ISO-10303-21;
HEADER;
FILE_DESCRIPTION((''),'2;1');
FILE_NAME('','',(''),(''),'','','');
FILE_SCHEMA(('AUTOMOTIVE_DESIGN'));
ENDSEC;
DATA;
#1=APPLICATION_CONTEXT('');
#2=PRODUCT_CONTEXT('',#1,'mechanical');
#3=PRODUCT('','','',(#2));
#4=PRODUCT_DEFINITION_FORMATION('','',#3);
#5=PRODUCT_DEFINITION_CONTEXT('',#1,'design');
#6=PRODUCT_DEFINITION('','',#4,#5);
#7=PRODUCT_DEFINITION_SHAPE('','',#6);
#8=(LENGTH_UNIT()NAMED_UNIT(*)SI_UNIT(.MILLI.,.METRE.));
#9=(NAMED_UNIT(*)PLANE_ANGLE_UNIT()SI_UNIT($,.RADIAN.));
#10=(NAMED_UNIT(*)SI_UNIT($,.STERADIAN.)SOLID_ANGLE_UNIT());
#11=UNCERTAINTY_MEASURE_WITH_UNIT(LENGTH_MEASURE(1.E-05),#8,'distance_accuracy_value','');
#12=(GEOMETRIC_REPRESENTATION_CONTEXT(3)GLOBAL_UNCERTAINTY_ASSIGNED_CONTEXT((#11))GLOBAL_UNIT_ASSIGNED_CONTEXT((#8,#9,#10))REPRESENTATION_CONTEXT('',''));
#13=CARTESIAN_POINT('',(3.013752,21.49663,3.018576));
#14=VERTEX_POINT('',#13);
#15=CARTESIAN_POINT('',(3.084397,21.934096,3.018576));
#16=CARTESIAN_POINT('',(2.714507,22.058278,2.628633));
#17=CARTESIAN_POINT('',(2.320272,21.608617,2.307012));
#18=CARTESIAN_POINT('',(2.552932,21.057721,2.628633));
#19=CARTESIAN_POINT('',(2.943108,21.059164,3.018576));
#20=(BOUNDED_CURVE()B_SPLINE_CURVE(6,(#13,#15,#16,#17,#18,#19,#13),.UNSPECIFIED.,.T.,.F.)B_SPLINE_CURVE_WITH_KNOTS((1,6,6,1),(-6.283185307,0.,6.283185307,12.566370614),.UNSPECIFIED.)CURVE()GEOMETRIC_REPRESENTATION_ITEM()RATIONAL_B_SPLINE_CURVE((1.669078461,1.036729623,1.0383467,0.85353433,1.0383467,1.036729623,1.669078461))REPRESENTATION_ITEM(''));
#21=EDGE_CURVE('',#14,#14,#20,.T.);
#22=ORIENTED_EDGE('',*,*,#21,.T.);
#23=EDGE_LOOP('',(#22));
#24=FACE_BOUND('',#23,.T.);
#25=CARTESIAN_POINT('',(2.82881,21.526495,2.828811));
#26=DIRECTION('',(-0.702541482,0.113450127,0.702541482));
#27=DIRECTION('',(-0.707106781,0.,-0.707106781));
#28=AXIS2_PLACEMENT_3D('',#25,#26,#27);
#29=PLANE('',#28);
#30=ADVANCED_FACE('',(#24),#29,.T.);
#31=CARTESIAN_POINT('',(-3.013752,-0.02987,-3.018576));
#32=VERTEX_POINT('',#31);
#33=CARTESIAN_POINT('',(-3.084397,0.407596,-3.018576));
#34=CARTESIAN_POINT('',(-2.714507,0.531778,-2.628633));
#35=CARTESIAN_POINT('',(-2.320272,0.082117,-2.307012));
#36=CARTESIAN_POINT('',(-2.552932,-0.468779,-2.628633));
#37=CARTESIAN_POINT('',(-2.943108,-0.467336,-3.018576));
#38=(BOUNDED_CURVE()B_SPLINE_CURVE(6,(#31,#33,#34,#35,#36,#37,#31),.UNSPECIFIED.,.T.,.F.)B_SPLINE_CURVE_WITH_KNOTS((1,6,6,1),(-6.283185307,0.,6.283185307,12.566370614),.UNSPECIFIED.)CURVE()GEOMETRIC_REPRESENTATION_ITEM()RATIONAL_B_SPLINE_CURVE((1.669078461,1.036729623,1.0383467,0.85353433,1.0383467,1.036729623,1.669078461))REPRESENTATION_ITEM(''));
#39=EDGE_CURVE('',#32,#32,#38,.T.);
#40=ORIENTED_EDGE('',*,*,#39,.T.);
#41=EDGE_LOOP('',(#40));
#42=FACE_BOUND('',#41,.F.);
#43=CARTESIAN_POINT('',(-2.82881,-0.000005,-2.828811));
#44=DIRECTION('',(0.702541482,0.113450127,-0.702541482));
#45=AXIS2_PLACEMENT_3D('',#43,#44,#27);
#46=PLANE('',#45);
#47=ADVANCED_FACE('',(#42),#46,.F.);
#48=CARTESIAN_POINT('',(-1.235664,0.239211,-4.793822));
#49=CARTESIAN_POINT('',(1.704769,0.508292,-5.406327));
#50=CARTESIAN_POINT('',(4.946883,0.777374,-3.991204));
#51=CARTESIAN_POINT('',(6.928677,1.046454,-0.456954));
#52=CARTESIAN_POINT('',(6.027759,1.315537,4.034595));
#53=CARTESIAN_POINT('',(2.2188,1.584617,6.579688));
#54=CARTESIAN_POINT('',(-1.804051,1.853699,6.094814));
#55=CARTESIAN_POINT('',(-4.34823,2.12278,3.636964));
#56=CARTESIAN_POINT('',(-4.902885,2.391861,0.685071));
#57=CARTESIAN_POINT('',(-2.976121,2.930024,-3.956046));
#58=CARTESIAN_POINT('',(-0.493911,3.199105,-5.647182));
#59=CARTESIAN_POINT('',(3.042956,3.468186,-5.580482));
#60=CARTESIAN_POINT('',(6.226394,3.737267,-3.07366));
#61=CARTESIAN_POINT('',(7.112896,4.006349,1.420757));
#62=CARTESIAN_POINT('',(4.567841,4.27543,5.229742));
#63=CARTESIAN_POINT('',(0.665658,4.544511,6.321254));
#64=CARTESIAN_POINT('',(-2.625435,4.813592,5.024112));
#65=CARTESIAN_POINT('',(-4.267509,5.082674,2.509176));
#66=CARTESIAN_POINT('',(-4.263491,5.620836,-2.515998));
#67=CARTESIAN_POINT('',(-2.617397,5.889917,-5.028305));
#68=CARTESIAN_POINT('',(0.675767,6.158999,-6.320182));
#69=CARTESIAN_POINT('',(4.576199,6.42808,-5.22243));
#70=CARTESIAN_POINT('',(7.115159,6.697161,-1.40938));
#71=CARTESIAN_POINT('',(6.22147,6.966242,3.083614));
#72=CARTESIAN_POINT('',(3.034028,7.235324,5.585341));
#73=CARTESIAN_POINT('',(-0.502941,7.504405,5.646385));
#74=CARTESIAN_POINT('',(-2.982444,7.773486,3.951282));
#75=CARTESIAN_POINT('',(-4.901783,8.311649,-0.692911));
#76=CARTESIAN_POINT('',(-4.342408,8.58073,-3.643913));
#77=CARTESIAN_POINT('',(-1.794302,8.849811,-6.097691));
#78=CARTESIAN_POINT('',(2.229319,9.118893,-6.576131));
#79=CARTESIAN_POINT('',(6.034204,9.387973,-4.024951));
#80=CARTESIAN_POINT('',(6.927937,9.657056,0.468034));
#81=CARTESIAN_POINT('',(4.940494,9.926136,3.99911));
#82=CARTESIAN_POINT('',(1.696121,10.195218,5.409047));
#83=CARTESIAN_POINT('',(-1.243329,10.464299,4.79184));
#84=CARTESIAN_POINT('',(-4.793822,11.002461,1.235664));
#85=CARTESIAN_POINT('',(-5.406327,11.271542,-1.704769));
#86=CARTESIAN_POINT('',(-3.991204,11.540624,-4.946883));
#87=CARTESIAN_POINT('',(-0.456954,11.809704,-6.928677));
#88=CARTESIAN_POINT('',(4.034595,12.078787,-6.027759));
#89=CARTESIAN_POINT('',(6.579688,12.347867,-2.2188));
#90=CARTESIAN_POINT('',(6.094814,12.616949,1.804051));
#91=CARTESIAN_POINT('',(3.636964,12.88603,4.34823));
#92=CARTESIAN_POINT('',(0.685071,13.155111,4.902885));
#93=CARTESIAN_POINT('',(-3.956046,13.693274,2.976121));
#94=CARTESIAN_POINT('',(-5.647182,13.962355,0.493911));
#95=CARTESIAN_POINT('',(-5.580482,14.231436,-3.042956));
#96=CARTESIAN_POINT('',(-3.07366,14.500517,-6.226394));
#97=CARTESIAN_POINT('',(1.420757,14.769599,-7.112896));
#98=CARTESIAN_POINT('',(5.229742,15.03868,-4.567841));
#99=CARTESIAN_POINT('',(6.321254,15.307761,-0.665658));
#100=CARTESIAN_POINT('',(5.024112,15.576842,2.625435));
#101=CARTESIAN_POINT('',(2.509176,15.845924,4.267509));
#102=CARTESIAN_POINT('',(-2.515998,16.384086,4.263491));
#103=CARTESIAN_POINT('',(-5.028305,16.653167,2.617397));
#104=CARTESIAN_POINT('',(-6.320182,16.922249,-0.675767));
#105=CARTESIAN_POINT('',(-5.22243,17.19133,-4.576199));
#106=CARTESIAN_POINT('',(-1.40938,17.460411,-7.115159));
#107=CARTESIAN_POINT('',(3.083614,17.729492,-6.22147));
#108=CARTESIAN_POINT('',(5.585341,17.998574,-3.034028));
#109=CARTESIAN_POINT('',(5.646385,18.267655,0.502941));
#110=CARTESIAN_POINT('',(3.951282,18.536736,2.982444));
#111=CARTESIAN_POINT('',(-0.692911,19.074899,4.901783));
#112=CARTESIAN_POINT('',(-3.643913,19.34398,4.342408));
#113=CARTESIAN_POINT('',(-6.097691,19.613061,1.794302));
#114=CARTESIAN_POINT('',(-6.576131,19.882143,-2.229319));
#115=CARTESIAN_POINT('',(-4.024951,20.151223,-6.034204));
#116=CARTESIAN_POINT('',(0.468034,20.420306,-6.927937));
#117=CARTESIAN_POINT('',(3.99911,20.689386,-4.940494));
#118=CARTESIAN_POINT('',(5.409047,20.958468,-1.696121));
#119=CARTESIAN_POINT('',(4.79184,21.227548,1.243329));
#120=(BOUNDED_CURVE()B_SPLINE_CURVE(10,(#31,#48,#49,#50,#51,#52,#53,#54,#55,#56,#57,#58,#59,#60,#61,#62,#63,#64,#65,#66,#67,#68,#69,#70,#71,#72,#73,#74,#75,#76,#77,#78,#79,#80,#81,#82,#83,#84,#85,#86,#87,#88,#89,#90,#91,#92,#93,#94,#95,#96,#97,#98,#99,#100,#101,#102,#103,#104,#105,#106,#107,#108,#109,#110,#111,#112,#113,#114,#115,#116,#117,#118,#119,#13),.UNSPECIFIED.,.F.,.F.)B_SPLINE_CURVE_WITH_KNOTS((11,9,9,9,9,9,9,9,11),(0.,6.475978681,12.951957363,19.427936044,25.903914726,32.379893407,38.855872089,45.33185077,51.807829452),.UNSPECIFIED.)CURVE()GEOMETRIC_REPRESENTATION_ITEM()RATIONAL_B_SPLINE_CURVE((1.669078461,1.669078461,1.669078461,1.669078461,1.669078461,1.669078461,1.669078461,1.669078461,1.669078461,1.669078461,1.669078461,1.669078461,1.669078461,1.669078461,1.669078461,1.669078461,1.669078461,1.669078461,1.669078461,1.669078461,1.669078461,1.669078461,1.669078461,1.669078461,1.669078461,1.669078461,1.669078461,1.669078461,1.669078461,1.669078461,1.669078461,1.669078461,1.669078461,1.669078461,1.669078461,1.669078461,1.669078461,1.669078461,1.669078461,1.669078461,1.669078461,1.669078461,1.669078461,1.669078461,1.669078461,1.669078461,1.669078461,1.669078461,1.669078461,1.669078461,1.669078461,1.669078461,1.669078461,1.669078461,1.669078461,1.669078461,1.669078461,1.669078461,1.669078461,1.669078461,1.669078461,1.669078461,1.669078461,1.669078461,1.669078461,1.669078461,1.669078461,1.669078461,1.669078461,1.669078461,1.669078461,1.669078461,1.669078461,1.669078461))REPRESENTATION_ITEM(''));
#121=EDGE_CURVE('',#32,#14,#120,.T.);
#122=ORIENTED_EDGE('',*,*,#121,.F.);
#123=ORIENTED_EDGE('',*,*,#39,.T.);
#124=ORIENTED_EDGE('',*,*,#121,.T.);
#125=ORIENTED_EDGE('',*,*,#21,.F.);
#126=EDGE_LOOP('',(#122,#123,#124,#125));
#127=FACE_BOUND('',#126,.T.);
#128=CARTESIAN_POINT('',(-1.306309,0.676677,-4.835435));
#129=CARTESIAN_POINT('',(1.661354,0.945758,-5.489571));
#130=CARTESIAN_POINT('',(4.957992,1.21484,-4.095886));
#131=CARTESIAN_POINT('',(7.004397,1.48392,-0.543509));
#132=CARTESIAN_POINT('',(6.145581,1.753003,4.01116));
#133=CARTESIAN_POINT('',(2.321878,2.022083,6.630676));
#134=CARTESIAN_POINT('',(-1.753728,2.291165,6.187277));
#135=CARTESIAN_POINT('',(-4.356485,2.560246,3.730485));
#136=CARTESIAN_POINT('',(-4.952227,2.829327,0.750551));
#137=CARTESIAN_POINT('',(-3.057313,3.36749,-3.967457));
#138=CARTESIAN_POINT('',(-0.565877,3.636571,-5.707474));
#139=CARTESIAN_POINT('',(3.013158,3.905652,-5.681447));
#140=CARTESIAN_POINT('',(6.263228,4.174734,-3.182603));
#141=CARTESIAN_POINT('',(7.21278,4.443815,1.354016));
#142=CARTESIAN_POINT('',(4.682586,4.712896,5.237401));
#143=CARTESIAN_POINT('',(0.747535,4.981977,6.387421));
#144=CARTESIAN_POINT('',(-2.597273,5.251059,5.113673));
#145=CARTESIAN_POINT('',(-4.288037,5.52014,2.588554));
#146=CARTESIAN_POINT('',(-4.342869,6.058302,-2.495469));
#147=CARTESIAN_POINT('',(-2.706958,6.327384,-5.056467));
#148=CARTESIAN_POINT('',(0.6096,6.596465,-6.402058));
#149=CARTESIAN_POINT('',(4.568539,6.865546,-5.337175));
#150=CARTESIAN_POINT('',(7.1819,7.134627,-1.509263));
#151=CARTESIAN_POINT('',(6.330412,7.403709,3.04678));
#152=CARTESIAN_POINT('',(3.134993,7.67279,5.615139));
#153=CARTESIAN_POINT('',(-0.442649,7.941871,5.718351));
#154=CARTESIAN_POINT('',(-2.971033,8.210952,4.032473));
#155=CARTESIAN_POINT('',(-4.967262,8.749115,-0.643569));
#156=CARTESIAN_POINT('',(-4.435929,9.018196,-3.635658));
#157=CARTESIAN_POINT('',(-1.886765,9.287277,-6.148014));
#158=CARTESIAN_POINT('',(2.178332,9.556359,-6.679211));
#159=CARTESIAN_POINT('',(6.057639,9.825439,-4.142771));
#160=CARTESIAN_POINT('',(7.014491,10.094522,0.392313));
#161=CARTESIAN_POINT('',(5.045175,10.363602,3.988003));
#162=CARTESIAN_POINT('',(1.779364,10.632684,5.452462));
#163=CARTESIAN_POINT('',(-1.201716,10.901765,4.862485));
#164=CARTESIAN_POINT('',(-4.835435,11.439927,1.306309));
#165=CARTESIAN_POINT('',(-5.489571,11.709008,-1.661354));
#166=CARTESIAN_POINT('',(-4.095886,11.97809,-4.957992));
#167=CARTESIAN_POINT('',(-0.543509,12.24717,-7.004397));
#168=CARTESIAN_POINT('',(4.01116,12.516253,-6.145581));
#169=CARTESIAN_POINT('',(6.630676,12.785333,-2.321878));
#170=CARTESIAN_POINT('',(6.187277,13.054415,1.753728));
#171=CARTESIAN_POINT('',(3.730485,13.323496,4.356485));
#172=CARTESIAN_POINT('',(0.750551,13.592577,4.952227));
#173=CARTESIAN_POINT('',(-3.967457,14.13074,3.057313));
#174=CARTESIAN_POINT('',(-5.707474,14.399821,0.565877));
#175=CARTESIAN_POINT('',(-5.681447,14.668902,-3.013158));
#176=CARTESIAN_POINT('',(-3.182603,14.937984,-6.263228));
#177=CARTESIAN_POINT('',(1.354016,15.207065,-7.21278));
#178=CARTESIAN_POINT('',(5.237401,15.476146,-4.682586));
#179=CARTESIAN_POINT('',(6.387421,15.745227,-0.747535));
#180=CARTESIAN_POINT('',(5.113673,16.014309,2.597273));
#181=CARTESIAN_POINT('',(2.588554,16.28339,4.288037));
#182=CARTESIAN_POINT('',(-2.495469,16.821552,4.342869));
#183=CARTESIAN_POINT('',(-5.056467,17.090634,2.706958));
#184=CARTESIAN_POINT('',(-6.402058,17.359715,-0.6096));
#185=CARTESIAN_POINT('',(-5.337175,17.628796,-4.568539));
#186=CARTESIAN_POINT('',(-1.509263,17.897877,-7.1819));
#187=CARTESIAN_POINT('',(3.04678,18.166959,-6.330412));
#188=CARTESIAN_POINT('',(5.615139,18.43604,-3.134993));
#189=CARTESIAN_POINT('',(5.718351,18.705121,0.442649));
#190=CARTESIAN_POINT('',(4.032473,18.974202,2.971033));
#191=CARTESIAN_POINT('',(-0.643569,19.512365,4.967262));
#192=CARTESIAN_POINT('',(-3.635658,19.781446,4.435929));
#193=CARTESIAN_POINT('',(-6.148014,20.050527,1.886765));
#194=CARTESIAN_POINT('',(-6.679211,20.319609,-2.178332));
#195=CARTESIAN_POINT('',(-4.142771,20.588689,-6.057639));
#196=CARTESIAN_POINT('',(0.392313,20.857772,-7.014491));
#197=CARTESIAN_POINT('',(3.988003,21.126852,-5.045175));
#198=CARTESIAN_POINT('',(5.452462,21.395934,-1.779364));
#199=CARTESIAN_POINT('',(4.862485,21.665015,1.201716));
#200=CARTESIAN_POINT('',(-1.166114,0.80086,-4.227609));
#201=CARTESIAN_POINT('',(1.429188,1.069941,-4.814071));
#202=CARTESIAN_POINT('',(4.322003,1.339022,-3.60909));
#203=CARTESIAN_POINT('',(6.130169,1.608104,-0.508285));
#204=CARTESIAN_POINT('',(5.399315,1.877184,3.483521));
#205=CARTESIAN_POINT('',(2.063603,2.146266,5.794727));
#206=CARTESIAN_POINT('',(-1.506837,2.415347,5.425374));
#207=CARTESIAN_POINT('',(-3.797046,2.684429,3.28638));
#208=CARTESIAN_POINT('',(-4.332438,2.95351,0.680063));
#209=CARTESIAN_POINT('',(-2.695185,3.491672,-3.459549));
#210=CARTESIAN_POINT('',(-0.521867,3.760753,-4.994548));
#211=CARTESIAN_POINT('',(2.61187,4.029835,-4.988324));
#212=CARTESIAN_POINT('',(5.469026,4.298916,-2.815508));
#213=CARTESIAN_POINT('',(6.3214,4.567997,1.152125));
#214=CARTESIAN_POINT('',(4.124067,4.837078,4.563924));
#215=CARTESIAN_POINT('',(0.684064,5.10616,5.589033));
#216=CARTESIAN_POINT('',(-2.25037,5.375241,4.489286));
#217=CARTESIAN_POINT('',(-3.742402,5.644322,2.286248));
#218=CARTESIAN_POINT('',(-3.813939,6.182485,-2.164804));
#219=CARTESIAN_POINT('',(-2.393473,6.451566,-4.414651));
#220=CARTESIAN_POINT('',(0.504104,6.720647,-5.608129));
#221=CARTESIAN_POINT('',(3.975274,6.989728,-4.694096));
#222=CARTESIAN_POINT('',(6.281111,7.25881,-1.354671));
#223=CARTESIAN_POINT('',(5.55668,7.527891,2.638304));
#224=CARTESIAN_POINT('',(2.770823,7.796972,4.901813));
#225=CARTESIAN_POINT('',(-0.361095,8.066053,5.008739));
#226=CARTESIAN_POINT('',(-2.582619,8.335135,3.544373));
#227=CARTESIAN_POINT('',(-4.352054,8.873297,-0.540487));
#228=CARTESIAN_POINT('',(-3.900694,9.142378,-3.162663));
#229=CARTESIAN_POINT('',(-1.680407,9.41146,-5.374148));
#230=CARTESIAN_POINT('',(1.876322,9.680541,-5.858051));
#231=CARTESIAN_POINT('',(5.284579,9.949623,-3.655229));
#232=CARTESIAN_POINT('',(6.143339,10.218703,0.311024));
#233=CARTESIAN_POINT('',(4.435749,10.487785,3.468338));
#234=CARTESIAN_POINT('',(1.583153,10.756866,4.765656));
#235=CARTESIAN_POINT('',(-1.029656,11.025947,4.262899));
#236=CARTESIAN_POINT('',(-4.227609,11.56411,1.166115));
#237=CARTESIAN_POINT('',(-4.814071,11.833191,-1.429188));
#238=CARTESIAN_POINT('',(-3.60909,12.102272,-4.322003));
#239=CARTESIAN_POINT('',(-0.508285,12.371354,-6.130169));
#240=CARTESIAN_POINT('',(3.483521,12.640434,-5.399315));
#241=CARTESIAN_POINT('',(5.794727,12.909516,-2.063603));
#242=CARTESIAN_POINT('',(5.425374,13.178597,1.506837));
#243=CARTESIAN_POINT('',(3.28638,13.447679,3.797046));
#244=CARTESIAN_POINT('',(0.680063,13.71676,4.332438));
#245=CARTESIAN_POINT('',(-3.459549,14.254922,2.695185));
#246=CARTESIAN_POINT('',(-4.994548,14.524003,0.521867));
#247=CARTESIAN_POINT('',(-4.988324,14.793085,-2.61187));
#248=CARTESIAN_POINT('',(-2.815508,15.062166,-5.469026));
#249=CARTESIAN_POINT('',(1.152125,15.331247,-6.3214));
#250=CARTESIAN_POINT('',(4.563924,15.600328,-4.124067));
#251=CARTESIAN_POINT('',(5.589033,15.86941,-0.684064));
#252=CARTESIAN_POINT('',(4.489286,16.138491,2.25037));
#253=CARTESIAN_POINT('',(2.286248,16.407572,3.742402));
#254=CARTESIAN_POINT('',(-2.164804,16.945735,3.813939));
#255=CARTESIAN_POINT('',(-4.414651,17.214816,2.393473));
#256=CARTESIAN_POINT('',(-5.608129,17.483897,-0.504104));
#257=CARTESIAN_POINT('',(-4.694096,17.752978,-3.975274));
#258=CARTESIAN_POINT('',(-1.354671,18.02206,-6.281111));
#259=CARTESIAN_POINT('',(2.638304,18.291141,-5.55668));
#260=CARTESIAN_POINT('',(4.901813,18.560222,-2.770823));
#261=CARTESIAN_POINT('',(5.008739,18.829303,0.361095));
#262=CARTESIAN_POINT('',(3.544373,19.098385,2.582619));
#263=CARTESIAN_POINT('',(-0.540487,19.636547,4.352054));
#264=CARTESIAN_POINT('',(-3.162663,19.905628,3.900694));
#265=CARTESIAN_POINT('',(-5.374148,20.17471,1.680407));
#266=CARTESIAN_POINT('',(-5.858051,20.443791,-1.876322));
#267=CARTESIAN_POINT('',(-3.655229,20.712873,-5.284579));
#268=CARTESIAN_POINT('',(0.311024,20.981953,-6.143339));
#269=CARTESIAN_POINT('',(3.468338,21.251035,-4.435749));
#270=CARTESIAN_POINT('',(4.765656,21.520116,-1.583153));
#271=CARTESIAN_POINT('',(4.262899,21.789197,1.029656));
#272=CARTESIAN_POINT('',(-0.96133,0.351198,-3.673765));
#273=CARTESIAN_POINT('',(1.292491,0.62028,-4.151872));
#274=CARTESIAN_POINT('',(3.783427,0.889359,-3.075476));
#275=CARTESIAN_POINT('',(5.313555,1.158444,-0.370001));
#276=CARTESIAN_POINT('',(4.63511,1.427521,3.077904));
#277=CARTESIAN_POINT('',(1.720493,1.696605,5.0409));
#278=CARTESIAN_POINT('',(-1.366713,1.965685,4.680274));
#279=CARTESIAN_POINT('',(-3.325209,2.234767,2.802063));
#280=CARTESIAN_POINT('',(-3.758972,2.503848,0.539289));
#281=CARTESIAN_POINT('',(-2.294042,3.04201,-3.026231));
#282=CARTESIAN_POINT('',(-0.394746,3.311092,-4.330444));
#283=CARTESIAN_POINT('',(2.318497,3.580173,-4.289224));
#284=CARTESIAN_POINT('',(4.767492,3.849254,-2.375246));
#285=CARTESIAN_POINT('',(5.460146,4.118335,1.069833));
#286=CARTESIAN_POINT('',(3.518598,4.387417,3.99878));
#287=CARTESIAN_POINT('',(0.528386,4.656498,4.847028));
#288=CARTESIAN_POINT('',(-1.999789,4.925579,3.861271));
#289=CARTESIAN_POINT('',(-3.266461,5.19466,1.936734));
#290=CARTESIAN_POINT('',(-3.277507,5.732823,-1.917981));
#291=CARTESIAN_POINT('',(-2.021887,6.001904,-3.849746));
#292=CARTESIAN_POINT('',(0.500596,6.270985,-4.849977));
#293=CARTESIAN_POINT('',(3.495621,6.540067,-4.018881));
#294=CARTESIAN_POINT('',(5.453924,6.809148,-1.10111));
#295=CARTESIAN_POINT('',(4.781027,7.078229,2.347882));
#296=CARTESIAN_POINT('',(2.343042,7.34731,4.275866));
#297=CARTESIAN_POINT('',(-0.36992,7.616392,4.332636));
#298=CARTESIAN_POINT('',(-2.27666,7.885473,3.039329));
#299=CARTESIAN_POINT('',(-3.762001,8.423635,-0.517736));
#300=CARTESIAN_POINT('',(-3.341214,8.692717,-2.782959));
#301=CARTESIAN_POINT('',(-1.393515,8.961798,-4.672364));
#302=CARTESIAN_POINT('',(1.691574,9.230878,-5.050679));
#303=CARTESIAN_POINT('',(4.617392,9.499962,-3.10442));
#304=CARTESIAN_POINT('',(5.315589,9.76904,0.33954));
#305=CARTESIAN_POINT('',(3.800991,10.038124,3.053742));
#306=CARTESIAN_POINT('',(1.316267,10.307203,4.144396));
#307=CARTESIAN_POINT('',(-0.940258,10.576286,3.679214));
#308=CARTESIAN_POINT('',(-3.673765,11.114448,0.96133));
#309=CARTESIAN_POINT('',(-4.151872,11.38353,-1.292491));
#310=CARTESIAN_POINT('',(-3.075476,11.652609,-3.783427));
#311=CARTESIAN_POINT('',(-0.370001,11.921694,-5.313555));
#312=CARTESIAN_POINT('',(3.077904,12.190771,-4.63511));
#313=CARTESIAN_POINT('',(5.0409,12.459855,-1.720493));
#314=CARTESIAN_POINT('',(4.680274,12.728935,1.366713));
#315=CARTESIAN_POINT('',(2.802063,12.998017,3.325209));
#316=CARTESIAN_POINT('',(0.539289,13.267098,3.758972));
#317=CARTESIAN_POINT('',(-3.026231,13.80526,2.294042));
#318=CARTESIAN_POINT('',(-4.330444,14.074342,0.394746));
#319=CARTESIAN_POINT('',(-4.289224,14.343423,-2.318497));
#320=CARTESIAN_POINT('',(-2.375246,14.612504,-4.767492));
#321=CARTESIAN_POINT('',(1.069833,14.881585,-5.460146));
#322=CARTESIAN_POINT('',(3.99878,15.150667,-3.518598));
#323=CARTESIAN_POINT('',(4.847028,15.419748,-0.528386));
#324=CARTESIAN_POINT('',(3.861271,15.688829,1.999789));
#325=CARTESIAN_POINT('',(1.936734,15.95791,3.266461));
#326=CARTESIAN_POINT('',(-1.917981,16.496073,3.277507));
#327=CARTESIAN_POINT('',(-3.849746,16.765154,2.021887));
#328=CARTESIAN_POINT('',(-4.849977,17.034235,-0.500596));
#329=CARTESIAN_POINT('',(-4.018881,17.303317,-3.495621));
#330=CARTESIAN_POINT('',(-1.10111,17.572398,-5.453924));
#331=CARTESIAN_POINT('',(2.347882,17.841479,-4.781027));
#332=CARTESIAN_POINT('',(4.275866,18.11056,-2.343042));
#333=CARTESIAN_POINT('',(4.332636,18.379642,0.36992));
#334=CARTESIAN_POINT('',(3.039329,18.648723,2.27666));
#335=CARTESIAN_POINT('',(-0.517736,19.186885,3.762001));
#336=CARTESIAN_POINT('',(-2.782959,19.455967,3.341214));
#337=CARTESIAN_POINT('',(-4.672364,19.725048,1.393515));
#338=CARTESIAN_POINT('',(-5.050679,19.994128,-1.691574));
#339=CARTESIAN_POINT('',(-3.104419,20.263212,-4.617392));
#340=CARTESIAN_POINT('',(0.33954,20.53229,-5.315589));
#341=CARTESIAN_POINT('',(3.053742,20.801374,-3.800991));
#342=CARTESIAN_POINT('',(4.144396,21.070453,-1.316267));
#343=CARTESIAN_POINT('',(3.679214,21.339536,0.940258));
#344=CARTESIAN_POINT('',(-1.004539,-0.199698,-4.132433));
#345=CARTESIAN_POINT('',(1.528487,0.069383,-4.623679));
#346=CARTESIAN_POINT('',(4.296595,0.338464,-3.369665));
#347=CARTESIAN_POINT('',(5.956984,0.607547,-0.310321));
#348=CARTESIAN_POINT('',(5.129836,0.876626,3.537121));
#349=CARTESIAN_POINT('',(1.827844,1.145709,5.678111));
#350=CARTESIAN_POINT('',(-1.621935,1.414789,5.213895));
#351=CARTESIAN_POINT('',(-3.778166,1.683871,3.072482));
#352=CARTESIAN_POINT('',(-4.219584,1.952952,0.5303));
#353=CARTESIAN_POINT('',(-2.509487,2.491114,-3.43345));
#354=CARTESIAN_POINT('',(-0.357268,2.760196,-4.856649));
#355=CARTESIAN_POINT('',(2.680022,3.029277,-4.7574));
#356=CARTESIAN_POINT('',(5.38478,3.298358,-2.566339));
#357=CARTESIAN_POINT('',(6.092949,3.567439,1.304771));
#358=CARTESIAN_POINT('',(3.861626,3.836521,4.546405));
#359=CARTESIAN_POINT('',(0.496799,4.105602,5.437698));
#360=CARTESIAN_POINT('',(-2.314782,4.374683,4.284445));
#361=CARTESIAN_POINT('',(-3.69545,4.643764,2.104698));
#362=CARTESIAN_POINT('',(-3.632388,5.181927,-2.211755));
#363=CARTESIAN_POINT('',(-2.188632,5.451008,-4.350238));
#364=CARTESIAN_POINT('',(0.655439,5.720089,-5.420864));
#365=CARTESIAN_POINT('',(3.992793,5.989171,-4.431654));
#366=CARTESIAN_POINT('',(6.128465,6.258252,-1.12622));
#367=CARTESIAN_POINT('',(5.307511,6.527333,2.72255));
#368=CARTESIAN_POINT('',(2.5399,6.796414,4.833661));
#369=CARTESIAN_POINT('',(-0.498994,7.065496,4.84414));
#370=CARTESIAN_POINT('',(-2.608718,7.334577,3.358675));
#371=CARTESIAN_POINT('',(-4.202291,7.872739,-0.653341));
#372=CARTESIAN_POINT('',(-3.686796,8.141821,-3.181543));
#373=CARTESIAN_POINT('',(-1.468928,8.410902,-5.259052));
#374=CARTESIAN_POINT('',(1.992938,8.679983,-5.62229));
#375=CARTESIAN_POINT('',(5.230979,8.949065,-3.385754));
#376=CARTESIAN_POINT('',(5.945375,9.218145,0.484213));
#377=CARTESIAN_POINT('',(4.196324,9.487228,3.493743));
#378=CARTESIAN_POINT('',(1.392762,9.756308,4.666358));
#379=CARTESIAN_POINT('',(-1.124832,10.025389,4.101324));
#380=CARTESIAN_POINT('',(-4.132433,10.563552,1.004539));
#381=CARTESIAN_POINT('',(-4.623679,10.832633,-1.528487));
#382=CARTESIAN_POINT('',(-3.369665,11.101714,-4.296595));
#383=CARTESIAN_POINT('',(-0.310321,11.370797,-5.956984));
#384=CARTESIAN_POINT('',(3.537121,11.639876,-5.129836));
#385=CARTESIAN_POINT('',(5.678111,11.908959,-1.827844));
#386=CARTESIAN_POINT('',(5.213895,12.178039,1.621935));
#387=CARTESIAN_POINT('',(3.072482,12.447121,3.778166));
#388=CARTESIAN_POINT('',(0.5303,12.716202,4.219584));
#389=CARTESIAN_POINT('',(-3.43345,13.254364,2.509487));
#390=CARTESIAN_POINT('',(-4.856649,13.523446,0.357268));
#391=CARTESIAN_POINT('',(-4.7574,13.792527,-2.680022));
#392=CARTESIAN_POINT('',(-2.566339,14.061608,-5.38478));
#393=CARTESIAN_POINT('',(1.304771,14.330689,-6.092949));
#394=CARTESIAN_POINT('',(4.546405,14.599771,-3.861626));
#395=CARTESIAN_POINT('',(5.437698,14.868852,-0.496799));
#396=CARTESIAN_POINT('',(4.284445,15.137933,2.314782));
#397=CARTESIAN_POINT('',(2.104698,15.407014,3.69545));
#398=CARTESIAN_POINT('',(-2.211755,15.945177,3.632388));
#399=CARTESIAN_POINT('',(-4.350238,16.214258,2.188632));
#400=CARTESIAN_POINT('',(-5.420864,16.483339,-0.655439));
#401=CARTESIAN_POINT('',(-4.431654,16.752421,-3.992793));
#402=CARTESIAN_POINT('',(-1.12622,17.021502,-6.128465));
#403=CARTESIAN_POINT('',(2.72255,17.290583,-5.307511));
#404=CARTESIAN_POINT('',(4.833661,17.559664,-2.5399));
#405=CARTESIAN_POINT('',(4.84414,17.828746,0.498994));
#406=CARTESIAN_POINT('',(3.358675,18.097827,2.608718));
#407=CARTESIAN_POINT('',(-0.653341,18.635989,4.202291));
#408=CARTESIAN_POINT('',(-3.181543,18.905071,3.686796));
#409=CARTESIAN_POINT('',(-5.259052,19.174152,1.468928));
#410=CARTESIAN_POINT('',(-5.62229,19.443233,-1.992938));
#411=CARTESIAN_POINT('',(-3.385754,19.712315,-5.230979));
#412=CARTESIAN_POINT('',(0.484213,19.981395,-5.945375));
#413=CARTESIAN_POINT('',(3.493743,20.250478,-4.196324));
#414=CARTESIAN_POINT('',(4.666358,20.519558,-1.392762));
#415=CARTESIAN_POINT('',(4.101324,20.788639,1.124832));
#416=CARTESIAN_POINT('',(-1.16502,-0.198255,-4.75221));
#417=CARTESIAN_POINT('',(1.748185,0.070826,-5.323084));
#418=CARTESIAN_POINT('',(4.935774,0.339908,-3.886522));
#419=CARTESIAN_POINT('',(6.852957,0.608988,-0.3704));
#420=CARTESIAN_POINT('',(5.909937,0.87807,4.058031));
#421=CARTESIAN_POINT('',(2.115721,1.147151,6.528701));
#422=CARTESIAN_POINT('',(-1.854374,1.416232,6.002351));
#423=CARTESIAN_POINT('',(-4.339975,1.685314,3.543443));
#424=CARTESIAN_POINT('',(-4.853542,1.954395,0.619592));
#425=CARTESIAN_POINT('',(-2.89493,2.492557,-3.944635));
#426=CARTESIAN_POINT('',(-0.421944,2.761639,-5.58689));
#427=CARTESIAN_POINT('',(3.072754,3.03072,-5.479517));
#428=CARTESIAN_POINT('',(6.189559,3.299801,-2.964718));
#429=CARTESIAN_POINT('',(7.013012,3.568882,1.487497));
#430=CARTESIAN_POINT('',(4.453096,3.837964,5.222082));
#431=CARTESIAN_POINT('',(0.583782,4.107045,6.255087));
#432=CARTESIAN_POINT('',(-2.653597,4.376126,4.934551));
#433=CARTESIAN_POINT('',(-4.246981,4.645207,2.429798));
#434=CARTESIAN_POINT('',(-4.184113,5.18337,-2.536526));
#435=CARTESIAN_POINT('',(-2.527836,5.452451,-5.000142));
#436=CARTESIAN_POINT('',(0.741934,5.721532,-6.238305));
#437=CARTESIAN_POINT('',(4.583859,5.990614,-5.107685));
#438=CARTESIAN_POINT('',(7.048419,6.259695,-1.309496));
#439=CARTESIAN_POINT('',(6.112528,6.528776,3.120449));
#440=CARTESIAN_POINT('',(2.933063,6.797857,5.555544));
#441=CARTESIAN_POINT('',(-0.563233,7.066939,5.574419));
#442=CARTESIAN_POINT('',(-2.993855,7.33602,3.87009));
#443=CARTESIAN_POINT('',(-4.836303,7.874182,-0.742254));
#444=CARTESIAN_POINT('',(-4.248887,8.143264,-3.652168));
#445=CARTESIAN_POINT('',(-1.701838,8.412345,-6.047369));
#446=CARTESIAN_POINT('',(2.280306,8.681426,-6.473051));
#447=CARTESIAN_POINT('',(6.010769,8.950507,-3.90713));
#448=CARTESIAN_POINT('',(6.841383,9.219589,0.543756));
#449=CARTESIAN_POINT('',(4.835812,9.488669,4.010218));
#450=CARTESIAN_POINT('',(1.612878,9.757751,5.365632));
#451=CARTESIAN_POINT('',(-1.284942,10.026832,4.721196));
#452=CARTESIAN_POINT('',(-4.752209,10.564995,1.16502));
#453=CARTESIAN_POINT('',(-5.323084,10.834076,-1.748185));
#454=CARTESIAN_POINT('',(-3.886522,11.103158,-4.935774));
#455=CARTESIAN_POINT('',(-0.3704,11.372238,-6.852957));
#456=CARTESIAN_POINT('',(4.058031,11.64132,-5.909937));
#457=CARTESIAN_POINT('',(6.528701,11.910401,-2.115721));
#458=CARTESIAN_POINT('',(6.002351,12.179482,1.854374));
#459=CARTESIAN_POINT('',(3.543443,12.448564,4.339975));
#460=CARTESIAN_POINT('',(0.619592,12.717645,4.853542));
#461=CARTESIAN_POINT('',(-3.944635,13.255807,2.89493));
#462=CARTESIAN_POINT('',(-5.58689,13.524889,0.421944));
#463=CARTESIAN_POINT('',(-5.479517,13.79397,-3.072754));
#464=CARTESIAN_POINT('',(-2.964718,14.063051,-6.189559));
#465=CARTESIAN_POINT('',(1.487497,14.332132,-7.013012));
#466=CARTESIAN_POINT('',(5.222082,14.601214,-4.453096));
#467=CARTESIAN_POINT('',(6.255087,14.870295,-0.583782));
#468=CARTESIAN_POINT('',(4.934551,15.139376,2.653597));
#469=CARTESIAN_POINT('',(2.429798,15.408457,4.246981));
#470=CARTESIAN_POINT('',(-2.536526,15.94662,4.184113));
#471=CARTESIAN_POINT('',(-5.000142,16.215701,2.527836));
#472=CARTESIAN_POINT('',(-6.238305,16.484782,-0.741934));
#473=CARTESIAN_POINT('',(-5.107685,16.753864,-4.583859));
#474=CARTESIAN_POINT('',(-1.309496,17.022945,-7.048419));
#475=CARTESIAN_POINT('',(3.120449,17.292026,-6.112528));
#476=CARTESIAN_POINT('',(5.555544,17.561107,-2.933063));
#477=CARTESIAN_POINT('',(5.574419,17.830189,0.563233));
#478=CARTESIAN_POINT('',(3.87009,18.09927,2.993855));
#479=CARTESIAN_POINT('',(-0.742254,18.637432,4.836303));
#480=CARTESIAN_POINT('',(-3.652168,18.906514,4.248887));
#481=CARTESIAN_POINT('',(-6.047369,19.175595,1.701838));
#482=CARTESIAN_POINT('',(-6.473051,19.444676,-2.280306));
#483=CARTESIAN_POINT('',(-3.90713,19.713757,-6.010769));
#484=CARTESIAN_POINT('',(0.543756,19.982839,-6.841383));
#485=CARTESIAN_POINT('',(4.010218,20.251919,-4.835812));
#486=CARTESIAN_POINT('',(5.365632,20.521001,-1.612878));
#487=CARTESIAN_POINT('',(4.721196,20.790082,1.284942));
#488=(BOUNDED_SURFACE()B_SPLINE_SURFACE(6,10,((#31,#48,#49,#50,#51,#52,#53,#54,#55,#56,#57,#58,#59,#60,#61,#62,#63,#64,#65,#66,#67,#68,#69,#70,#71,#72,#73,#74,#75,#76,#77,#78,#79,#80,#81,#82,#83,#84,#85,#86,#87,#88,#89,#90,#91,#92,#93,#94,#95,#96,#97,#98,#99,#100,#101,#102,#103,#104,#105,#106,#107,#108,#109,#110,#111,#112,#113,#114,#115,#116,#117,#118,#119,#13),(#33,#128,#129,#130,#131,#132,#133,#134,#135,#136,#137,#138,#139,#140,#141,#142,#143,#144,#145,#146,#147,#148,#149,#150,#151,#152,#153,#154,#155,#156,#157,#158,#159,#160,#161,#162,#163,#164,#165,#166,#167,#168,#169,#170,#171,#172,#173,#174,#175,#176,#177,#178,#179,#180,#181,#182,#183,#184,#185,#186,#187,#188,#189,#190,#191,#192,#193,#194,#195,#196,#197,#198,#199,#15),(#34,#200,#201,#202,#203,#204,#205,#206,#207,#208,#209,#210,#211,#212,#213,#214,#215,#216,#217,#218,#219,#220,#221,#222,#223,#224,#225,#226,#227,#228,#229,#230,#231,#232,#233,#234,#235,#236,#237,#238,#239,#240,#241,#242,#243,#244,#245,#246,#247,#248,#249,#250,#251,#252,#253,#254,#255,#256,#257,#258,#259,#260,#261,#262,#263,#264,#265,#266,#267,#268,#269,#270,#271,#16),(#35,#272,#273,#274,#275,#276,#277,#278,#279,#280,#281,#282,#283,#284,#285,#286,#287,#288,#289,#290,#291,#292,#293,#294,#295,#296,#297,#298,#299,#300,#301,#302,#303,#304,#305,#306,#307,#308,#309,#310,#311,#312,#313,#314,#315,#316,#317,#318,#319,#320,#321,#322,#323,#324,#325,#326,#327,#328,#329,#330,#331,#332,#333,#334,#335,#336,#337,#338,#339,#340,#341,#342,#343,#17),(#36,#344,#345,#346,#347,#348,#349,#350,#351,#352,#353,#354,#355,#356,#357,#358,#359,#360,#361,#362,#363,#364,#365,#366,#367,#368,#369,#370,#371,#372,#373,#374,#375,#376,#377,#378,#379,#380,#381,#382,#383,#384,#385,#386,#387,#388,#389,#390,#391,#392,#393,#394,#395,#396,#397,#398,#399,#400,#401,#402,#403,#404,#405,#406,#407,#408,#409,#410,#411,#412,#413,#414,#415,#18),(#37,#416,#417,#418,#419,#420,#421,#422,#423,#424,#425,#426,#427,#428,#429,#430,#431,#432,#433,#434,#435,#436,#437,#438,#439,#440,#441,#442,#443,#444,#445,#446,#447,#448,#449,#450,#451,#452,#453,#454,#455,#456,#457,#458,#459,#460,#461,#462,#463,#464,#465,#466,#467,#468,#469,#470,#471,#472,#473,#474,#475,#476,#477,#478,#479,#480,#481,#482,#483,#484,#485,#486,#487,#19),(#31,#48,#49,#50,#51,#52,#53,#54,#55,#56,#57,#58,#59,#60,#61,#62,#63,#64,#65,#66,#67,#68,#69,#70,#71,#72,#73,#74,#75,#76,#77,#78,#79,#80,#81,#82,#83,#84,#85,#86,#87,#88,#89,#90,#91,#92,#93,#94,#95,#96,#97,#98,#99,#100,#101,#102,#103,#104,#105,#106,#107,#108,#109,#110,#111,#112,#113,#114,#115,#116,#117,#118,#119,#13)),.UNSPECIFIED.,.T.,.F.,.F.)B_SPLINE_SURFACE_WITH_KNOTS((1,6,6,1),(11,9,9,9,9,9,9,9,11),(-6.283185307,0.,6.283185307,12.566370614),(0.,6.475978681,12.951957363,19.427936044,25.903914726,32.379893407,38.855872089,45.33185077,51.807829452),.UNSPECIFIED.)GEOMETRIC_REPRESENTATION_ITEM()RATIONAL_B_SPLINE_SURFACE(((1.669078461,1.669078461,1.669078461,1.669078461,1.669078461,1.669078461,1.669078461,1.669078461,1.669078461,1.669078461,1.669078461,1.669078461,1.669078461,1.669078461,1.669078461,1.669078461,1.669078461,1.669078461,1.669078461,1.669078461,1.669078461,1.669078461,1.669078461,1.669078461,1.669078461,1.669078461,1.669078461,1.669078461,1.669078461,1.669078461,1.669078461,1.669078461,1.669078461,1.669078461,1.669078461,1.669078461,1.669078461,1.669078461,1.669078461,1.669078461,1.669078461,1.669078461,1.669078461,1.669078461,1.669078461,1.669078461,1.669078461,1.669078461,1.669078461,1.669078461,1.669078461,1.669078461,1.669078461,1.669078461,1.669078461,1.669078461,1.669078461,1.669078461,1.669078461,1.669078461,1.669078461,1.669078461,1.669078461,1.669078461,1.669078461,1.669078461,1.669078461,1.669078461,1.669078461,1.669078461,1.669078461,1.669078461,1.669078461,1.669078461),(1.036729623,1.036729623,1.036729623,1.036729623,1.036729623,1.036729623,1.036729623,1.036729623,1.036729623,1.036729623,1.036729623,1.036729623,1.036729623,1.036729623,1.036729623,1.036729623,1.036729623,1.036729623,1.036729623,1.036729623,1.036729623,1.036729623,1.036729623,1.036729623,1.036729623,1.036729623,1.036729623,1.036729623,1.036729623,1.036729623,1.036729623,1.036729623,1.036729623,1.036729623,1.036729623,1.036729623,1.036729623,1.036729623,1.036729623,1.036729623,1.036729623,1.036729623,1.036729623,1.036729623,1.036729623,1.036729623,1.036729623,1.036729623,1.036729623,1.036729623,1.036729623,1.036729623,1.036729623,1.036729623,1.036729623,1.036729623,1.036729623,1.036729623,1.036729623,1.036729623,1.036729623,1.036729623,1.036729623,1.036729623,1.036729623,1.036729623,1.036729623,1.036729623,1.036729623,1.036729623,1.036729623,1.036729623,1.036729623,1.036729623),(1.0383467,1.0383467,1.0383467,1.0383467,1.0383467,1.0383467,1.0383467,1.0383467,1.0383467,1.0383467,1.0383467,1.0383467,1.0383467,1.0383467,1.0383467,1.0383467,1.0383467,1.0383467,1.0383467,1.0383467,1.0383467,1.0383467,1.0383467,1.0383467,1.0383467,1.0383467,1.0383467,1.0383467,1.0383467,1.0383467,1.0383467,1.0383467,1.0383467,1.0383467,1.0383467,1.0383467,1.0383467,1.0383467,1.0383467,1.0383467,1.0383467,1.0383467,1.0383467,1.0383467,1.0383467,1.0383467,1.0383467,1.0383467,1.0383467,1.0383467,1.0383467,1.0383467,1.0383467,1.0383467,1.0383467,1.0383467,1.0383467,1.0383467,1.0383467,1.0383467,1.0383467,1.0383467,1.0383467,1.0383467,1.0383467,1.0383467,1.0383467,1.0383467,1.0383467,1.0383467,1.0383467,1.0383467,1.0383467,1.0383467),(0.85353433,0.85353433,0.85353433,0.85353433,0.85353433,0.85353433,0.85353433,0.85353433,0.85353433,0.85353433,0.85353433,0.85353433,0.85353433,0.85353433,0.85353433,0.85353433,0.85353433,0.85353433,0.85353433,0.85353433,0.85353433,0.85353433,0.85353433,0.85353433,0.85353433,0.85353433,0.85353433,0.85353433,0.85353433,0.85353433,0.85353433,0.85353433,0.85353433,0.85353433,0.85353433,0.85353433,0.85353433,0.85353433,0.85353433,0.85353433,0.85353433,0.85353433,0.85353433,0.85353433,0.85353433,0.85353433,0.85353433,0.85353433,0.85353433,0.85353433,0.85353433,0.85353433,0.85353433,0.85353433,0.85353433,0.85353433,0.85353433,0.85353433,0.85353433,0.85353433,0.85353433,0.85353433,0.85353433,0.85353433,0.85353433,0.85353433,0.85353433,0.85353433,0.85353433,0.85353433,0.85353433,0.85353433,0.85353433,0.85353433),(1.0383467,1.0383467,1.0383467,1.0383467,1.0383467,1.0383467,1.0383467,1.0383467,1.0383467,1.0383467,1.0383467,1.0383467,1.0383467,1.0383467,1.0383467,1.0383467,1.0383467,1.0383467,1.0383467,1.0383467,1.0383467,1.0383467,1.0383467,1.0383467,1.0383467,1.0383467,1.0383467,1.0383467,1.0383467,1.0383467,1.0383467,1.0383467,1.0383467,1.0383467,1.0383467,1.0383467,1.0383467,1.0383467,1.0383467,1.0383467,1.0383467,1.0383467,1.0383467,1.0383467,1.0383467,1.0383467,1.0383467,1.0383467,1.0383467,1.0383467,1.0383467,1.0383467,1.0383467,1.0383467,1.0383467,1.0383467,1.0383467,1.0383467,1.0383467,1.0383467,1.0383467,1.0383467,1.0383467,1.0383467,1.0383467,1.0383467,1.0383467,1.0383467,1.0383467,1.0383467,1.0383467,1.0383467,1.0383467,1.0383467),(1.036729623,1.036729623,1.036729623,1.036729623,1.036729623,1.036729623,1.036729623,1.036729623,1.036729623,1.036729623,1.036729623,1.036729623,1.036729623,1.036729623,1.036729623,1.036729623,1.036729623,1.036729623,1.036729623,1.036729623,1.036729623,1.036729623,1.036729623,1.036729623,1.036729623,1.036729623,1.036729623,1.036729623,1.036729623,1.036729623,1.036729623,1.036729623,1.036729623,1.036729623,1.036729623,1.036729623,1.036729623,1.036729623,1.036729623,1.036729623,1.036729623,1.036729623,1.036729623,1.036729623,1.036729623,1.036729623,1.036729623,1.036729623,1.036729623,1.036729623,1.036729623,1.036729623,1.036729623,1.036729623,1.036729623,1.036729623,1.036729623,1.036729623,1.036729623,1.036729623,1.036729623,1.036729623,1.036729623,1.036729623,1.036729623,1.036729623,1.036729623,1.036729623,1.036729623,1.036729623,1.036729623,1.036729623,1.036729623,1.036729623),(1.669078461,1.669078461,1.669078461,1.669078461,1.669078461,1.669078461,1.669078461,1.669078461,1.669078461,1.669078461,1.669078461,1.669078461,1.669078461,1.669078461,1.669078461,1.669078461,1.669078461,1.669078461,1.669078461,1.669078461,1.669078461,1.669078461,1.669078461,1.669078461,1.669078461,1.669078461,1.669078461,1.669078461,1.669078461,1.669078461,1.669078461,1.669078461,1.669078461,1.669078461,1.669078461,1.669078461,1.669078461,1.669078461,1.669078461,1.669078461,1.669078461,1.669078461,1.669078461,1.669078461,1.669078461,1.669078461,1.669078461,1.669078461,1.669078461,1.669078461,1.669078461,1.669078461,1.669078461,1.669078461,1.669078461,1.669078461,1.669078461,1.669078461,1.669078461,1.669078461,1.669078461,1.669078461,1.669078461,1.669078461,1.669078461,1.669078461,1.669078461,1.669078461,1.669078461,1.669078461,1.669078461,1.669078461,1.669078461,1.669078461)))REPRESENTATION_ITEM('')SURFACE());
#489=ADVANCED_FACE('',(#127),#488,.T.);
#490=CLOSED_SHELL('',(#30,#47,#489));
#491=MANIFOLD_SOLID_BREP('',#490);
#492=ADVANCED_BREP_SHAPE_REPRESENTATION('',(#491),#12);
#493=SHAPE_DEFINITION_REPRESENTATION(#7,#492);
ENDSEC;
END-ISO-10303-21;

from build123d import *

# Parameters (mm, degrees)
SWEEP1_PITCH       = 2.8702
SWEEP1_HEIGHT      = 21.5265
SWEEP1_RADIUS      = 4.0005
SWEEP1_START_ANGLE = -135
SKETCH2_R          = 0.2667


with BuildPart() as part:
    # Sweep1: sweep along a helix
    with BuildLine() as sweep1_path:
        add(Helix(SWEEP1_PITCH, SWEEP1_HEIGHT, SWEEP1_RADIUS, center=(0, 0, 0), direction=(0, 1, 0), lefthand=True, mode=Mode.PRIVATE).rotate(Axis((0, 0, 0), (0, 1, 0)), SWEEP1_START_ANGLE))
    # Sketch2 → Sweep1 (sweep)
    with BuildSketch(Plane(origin=(2.828780678, 21.5265, 2.828780678), x_dir=(0.6935565690294935, -0.11199919581918819, 0.7116427936063798), z_dir=(-0.7025414822687001, 0.11345012729649293, 0.7025414822685615))):
        Circle(SKETCH2_R)
    sweep(path=sweep1_path.line, is_frenet=True)


solid = part.part
